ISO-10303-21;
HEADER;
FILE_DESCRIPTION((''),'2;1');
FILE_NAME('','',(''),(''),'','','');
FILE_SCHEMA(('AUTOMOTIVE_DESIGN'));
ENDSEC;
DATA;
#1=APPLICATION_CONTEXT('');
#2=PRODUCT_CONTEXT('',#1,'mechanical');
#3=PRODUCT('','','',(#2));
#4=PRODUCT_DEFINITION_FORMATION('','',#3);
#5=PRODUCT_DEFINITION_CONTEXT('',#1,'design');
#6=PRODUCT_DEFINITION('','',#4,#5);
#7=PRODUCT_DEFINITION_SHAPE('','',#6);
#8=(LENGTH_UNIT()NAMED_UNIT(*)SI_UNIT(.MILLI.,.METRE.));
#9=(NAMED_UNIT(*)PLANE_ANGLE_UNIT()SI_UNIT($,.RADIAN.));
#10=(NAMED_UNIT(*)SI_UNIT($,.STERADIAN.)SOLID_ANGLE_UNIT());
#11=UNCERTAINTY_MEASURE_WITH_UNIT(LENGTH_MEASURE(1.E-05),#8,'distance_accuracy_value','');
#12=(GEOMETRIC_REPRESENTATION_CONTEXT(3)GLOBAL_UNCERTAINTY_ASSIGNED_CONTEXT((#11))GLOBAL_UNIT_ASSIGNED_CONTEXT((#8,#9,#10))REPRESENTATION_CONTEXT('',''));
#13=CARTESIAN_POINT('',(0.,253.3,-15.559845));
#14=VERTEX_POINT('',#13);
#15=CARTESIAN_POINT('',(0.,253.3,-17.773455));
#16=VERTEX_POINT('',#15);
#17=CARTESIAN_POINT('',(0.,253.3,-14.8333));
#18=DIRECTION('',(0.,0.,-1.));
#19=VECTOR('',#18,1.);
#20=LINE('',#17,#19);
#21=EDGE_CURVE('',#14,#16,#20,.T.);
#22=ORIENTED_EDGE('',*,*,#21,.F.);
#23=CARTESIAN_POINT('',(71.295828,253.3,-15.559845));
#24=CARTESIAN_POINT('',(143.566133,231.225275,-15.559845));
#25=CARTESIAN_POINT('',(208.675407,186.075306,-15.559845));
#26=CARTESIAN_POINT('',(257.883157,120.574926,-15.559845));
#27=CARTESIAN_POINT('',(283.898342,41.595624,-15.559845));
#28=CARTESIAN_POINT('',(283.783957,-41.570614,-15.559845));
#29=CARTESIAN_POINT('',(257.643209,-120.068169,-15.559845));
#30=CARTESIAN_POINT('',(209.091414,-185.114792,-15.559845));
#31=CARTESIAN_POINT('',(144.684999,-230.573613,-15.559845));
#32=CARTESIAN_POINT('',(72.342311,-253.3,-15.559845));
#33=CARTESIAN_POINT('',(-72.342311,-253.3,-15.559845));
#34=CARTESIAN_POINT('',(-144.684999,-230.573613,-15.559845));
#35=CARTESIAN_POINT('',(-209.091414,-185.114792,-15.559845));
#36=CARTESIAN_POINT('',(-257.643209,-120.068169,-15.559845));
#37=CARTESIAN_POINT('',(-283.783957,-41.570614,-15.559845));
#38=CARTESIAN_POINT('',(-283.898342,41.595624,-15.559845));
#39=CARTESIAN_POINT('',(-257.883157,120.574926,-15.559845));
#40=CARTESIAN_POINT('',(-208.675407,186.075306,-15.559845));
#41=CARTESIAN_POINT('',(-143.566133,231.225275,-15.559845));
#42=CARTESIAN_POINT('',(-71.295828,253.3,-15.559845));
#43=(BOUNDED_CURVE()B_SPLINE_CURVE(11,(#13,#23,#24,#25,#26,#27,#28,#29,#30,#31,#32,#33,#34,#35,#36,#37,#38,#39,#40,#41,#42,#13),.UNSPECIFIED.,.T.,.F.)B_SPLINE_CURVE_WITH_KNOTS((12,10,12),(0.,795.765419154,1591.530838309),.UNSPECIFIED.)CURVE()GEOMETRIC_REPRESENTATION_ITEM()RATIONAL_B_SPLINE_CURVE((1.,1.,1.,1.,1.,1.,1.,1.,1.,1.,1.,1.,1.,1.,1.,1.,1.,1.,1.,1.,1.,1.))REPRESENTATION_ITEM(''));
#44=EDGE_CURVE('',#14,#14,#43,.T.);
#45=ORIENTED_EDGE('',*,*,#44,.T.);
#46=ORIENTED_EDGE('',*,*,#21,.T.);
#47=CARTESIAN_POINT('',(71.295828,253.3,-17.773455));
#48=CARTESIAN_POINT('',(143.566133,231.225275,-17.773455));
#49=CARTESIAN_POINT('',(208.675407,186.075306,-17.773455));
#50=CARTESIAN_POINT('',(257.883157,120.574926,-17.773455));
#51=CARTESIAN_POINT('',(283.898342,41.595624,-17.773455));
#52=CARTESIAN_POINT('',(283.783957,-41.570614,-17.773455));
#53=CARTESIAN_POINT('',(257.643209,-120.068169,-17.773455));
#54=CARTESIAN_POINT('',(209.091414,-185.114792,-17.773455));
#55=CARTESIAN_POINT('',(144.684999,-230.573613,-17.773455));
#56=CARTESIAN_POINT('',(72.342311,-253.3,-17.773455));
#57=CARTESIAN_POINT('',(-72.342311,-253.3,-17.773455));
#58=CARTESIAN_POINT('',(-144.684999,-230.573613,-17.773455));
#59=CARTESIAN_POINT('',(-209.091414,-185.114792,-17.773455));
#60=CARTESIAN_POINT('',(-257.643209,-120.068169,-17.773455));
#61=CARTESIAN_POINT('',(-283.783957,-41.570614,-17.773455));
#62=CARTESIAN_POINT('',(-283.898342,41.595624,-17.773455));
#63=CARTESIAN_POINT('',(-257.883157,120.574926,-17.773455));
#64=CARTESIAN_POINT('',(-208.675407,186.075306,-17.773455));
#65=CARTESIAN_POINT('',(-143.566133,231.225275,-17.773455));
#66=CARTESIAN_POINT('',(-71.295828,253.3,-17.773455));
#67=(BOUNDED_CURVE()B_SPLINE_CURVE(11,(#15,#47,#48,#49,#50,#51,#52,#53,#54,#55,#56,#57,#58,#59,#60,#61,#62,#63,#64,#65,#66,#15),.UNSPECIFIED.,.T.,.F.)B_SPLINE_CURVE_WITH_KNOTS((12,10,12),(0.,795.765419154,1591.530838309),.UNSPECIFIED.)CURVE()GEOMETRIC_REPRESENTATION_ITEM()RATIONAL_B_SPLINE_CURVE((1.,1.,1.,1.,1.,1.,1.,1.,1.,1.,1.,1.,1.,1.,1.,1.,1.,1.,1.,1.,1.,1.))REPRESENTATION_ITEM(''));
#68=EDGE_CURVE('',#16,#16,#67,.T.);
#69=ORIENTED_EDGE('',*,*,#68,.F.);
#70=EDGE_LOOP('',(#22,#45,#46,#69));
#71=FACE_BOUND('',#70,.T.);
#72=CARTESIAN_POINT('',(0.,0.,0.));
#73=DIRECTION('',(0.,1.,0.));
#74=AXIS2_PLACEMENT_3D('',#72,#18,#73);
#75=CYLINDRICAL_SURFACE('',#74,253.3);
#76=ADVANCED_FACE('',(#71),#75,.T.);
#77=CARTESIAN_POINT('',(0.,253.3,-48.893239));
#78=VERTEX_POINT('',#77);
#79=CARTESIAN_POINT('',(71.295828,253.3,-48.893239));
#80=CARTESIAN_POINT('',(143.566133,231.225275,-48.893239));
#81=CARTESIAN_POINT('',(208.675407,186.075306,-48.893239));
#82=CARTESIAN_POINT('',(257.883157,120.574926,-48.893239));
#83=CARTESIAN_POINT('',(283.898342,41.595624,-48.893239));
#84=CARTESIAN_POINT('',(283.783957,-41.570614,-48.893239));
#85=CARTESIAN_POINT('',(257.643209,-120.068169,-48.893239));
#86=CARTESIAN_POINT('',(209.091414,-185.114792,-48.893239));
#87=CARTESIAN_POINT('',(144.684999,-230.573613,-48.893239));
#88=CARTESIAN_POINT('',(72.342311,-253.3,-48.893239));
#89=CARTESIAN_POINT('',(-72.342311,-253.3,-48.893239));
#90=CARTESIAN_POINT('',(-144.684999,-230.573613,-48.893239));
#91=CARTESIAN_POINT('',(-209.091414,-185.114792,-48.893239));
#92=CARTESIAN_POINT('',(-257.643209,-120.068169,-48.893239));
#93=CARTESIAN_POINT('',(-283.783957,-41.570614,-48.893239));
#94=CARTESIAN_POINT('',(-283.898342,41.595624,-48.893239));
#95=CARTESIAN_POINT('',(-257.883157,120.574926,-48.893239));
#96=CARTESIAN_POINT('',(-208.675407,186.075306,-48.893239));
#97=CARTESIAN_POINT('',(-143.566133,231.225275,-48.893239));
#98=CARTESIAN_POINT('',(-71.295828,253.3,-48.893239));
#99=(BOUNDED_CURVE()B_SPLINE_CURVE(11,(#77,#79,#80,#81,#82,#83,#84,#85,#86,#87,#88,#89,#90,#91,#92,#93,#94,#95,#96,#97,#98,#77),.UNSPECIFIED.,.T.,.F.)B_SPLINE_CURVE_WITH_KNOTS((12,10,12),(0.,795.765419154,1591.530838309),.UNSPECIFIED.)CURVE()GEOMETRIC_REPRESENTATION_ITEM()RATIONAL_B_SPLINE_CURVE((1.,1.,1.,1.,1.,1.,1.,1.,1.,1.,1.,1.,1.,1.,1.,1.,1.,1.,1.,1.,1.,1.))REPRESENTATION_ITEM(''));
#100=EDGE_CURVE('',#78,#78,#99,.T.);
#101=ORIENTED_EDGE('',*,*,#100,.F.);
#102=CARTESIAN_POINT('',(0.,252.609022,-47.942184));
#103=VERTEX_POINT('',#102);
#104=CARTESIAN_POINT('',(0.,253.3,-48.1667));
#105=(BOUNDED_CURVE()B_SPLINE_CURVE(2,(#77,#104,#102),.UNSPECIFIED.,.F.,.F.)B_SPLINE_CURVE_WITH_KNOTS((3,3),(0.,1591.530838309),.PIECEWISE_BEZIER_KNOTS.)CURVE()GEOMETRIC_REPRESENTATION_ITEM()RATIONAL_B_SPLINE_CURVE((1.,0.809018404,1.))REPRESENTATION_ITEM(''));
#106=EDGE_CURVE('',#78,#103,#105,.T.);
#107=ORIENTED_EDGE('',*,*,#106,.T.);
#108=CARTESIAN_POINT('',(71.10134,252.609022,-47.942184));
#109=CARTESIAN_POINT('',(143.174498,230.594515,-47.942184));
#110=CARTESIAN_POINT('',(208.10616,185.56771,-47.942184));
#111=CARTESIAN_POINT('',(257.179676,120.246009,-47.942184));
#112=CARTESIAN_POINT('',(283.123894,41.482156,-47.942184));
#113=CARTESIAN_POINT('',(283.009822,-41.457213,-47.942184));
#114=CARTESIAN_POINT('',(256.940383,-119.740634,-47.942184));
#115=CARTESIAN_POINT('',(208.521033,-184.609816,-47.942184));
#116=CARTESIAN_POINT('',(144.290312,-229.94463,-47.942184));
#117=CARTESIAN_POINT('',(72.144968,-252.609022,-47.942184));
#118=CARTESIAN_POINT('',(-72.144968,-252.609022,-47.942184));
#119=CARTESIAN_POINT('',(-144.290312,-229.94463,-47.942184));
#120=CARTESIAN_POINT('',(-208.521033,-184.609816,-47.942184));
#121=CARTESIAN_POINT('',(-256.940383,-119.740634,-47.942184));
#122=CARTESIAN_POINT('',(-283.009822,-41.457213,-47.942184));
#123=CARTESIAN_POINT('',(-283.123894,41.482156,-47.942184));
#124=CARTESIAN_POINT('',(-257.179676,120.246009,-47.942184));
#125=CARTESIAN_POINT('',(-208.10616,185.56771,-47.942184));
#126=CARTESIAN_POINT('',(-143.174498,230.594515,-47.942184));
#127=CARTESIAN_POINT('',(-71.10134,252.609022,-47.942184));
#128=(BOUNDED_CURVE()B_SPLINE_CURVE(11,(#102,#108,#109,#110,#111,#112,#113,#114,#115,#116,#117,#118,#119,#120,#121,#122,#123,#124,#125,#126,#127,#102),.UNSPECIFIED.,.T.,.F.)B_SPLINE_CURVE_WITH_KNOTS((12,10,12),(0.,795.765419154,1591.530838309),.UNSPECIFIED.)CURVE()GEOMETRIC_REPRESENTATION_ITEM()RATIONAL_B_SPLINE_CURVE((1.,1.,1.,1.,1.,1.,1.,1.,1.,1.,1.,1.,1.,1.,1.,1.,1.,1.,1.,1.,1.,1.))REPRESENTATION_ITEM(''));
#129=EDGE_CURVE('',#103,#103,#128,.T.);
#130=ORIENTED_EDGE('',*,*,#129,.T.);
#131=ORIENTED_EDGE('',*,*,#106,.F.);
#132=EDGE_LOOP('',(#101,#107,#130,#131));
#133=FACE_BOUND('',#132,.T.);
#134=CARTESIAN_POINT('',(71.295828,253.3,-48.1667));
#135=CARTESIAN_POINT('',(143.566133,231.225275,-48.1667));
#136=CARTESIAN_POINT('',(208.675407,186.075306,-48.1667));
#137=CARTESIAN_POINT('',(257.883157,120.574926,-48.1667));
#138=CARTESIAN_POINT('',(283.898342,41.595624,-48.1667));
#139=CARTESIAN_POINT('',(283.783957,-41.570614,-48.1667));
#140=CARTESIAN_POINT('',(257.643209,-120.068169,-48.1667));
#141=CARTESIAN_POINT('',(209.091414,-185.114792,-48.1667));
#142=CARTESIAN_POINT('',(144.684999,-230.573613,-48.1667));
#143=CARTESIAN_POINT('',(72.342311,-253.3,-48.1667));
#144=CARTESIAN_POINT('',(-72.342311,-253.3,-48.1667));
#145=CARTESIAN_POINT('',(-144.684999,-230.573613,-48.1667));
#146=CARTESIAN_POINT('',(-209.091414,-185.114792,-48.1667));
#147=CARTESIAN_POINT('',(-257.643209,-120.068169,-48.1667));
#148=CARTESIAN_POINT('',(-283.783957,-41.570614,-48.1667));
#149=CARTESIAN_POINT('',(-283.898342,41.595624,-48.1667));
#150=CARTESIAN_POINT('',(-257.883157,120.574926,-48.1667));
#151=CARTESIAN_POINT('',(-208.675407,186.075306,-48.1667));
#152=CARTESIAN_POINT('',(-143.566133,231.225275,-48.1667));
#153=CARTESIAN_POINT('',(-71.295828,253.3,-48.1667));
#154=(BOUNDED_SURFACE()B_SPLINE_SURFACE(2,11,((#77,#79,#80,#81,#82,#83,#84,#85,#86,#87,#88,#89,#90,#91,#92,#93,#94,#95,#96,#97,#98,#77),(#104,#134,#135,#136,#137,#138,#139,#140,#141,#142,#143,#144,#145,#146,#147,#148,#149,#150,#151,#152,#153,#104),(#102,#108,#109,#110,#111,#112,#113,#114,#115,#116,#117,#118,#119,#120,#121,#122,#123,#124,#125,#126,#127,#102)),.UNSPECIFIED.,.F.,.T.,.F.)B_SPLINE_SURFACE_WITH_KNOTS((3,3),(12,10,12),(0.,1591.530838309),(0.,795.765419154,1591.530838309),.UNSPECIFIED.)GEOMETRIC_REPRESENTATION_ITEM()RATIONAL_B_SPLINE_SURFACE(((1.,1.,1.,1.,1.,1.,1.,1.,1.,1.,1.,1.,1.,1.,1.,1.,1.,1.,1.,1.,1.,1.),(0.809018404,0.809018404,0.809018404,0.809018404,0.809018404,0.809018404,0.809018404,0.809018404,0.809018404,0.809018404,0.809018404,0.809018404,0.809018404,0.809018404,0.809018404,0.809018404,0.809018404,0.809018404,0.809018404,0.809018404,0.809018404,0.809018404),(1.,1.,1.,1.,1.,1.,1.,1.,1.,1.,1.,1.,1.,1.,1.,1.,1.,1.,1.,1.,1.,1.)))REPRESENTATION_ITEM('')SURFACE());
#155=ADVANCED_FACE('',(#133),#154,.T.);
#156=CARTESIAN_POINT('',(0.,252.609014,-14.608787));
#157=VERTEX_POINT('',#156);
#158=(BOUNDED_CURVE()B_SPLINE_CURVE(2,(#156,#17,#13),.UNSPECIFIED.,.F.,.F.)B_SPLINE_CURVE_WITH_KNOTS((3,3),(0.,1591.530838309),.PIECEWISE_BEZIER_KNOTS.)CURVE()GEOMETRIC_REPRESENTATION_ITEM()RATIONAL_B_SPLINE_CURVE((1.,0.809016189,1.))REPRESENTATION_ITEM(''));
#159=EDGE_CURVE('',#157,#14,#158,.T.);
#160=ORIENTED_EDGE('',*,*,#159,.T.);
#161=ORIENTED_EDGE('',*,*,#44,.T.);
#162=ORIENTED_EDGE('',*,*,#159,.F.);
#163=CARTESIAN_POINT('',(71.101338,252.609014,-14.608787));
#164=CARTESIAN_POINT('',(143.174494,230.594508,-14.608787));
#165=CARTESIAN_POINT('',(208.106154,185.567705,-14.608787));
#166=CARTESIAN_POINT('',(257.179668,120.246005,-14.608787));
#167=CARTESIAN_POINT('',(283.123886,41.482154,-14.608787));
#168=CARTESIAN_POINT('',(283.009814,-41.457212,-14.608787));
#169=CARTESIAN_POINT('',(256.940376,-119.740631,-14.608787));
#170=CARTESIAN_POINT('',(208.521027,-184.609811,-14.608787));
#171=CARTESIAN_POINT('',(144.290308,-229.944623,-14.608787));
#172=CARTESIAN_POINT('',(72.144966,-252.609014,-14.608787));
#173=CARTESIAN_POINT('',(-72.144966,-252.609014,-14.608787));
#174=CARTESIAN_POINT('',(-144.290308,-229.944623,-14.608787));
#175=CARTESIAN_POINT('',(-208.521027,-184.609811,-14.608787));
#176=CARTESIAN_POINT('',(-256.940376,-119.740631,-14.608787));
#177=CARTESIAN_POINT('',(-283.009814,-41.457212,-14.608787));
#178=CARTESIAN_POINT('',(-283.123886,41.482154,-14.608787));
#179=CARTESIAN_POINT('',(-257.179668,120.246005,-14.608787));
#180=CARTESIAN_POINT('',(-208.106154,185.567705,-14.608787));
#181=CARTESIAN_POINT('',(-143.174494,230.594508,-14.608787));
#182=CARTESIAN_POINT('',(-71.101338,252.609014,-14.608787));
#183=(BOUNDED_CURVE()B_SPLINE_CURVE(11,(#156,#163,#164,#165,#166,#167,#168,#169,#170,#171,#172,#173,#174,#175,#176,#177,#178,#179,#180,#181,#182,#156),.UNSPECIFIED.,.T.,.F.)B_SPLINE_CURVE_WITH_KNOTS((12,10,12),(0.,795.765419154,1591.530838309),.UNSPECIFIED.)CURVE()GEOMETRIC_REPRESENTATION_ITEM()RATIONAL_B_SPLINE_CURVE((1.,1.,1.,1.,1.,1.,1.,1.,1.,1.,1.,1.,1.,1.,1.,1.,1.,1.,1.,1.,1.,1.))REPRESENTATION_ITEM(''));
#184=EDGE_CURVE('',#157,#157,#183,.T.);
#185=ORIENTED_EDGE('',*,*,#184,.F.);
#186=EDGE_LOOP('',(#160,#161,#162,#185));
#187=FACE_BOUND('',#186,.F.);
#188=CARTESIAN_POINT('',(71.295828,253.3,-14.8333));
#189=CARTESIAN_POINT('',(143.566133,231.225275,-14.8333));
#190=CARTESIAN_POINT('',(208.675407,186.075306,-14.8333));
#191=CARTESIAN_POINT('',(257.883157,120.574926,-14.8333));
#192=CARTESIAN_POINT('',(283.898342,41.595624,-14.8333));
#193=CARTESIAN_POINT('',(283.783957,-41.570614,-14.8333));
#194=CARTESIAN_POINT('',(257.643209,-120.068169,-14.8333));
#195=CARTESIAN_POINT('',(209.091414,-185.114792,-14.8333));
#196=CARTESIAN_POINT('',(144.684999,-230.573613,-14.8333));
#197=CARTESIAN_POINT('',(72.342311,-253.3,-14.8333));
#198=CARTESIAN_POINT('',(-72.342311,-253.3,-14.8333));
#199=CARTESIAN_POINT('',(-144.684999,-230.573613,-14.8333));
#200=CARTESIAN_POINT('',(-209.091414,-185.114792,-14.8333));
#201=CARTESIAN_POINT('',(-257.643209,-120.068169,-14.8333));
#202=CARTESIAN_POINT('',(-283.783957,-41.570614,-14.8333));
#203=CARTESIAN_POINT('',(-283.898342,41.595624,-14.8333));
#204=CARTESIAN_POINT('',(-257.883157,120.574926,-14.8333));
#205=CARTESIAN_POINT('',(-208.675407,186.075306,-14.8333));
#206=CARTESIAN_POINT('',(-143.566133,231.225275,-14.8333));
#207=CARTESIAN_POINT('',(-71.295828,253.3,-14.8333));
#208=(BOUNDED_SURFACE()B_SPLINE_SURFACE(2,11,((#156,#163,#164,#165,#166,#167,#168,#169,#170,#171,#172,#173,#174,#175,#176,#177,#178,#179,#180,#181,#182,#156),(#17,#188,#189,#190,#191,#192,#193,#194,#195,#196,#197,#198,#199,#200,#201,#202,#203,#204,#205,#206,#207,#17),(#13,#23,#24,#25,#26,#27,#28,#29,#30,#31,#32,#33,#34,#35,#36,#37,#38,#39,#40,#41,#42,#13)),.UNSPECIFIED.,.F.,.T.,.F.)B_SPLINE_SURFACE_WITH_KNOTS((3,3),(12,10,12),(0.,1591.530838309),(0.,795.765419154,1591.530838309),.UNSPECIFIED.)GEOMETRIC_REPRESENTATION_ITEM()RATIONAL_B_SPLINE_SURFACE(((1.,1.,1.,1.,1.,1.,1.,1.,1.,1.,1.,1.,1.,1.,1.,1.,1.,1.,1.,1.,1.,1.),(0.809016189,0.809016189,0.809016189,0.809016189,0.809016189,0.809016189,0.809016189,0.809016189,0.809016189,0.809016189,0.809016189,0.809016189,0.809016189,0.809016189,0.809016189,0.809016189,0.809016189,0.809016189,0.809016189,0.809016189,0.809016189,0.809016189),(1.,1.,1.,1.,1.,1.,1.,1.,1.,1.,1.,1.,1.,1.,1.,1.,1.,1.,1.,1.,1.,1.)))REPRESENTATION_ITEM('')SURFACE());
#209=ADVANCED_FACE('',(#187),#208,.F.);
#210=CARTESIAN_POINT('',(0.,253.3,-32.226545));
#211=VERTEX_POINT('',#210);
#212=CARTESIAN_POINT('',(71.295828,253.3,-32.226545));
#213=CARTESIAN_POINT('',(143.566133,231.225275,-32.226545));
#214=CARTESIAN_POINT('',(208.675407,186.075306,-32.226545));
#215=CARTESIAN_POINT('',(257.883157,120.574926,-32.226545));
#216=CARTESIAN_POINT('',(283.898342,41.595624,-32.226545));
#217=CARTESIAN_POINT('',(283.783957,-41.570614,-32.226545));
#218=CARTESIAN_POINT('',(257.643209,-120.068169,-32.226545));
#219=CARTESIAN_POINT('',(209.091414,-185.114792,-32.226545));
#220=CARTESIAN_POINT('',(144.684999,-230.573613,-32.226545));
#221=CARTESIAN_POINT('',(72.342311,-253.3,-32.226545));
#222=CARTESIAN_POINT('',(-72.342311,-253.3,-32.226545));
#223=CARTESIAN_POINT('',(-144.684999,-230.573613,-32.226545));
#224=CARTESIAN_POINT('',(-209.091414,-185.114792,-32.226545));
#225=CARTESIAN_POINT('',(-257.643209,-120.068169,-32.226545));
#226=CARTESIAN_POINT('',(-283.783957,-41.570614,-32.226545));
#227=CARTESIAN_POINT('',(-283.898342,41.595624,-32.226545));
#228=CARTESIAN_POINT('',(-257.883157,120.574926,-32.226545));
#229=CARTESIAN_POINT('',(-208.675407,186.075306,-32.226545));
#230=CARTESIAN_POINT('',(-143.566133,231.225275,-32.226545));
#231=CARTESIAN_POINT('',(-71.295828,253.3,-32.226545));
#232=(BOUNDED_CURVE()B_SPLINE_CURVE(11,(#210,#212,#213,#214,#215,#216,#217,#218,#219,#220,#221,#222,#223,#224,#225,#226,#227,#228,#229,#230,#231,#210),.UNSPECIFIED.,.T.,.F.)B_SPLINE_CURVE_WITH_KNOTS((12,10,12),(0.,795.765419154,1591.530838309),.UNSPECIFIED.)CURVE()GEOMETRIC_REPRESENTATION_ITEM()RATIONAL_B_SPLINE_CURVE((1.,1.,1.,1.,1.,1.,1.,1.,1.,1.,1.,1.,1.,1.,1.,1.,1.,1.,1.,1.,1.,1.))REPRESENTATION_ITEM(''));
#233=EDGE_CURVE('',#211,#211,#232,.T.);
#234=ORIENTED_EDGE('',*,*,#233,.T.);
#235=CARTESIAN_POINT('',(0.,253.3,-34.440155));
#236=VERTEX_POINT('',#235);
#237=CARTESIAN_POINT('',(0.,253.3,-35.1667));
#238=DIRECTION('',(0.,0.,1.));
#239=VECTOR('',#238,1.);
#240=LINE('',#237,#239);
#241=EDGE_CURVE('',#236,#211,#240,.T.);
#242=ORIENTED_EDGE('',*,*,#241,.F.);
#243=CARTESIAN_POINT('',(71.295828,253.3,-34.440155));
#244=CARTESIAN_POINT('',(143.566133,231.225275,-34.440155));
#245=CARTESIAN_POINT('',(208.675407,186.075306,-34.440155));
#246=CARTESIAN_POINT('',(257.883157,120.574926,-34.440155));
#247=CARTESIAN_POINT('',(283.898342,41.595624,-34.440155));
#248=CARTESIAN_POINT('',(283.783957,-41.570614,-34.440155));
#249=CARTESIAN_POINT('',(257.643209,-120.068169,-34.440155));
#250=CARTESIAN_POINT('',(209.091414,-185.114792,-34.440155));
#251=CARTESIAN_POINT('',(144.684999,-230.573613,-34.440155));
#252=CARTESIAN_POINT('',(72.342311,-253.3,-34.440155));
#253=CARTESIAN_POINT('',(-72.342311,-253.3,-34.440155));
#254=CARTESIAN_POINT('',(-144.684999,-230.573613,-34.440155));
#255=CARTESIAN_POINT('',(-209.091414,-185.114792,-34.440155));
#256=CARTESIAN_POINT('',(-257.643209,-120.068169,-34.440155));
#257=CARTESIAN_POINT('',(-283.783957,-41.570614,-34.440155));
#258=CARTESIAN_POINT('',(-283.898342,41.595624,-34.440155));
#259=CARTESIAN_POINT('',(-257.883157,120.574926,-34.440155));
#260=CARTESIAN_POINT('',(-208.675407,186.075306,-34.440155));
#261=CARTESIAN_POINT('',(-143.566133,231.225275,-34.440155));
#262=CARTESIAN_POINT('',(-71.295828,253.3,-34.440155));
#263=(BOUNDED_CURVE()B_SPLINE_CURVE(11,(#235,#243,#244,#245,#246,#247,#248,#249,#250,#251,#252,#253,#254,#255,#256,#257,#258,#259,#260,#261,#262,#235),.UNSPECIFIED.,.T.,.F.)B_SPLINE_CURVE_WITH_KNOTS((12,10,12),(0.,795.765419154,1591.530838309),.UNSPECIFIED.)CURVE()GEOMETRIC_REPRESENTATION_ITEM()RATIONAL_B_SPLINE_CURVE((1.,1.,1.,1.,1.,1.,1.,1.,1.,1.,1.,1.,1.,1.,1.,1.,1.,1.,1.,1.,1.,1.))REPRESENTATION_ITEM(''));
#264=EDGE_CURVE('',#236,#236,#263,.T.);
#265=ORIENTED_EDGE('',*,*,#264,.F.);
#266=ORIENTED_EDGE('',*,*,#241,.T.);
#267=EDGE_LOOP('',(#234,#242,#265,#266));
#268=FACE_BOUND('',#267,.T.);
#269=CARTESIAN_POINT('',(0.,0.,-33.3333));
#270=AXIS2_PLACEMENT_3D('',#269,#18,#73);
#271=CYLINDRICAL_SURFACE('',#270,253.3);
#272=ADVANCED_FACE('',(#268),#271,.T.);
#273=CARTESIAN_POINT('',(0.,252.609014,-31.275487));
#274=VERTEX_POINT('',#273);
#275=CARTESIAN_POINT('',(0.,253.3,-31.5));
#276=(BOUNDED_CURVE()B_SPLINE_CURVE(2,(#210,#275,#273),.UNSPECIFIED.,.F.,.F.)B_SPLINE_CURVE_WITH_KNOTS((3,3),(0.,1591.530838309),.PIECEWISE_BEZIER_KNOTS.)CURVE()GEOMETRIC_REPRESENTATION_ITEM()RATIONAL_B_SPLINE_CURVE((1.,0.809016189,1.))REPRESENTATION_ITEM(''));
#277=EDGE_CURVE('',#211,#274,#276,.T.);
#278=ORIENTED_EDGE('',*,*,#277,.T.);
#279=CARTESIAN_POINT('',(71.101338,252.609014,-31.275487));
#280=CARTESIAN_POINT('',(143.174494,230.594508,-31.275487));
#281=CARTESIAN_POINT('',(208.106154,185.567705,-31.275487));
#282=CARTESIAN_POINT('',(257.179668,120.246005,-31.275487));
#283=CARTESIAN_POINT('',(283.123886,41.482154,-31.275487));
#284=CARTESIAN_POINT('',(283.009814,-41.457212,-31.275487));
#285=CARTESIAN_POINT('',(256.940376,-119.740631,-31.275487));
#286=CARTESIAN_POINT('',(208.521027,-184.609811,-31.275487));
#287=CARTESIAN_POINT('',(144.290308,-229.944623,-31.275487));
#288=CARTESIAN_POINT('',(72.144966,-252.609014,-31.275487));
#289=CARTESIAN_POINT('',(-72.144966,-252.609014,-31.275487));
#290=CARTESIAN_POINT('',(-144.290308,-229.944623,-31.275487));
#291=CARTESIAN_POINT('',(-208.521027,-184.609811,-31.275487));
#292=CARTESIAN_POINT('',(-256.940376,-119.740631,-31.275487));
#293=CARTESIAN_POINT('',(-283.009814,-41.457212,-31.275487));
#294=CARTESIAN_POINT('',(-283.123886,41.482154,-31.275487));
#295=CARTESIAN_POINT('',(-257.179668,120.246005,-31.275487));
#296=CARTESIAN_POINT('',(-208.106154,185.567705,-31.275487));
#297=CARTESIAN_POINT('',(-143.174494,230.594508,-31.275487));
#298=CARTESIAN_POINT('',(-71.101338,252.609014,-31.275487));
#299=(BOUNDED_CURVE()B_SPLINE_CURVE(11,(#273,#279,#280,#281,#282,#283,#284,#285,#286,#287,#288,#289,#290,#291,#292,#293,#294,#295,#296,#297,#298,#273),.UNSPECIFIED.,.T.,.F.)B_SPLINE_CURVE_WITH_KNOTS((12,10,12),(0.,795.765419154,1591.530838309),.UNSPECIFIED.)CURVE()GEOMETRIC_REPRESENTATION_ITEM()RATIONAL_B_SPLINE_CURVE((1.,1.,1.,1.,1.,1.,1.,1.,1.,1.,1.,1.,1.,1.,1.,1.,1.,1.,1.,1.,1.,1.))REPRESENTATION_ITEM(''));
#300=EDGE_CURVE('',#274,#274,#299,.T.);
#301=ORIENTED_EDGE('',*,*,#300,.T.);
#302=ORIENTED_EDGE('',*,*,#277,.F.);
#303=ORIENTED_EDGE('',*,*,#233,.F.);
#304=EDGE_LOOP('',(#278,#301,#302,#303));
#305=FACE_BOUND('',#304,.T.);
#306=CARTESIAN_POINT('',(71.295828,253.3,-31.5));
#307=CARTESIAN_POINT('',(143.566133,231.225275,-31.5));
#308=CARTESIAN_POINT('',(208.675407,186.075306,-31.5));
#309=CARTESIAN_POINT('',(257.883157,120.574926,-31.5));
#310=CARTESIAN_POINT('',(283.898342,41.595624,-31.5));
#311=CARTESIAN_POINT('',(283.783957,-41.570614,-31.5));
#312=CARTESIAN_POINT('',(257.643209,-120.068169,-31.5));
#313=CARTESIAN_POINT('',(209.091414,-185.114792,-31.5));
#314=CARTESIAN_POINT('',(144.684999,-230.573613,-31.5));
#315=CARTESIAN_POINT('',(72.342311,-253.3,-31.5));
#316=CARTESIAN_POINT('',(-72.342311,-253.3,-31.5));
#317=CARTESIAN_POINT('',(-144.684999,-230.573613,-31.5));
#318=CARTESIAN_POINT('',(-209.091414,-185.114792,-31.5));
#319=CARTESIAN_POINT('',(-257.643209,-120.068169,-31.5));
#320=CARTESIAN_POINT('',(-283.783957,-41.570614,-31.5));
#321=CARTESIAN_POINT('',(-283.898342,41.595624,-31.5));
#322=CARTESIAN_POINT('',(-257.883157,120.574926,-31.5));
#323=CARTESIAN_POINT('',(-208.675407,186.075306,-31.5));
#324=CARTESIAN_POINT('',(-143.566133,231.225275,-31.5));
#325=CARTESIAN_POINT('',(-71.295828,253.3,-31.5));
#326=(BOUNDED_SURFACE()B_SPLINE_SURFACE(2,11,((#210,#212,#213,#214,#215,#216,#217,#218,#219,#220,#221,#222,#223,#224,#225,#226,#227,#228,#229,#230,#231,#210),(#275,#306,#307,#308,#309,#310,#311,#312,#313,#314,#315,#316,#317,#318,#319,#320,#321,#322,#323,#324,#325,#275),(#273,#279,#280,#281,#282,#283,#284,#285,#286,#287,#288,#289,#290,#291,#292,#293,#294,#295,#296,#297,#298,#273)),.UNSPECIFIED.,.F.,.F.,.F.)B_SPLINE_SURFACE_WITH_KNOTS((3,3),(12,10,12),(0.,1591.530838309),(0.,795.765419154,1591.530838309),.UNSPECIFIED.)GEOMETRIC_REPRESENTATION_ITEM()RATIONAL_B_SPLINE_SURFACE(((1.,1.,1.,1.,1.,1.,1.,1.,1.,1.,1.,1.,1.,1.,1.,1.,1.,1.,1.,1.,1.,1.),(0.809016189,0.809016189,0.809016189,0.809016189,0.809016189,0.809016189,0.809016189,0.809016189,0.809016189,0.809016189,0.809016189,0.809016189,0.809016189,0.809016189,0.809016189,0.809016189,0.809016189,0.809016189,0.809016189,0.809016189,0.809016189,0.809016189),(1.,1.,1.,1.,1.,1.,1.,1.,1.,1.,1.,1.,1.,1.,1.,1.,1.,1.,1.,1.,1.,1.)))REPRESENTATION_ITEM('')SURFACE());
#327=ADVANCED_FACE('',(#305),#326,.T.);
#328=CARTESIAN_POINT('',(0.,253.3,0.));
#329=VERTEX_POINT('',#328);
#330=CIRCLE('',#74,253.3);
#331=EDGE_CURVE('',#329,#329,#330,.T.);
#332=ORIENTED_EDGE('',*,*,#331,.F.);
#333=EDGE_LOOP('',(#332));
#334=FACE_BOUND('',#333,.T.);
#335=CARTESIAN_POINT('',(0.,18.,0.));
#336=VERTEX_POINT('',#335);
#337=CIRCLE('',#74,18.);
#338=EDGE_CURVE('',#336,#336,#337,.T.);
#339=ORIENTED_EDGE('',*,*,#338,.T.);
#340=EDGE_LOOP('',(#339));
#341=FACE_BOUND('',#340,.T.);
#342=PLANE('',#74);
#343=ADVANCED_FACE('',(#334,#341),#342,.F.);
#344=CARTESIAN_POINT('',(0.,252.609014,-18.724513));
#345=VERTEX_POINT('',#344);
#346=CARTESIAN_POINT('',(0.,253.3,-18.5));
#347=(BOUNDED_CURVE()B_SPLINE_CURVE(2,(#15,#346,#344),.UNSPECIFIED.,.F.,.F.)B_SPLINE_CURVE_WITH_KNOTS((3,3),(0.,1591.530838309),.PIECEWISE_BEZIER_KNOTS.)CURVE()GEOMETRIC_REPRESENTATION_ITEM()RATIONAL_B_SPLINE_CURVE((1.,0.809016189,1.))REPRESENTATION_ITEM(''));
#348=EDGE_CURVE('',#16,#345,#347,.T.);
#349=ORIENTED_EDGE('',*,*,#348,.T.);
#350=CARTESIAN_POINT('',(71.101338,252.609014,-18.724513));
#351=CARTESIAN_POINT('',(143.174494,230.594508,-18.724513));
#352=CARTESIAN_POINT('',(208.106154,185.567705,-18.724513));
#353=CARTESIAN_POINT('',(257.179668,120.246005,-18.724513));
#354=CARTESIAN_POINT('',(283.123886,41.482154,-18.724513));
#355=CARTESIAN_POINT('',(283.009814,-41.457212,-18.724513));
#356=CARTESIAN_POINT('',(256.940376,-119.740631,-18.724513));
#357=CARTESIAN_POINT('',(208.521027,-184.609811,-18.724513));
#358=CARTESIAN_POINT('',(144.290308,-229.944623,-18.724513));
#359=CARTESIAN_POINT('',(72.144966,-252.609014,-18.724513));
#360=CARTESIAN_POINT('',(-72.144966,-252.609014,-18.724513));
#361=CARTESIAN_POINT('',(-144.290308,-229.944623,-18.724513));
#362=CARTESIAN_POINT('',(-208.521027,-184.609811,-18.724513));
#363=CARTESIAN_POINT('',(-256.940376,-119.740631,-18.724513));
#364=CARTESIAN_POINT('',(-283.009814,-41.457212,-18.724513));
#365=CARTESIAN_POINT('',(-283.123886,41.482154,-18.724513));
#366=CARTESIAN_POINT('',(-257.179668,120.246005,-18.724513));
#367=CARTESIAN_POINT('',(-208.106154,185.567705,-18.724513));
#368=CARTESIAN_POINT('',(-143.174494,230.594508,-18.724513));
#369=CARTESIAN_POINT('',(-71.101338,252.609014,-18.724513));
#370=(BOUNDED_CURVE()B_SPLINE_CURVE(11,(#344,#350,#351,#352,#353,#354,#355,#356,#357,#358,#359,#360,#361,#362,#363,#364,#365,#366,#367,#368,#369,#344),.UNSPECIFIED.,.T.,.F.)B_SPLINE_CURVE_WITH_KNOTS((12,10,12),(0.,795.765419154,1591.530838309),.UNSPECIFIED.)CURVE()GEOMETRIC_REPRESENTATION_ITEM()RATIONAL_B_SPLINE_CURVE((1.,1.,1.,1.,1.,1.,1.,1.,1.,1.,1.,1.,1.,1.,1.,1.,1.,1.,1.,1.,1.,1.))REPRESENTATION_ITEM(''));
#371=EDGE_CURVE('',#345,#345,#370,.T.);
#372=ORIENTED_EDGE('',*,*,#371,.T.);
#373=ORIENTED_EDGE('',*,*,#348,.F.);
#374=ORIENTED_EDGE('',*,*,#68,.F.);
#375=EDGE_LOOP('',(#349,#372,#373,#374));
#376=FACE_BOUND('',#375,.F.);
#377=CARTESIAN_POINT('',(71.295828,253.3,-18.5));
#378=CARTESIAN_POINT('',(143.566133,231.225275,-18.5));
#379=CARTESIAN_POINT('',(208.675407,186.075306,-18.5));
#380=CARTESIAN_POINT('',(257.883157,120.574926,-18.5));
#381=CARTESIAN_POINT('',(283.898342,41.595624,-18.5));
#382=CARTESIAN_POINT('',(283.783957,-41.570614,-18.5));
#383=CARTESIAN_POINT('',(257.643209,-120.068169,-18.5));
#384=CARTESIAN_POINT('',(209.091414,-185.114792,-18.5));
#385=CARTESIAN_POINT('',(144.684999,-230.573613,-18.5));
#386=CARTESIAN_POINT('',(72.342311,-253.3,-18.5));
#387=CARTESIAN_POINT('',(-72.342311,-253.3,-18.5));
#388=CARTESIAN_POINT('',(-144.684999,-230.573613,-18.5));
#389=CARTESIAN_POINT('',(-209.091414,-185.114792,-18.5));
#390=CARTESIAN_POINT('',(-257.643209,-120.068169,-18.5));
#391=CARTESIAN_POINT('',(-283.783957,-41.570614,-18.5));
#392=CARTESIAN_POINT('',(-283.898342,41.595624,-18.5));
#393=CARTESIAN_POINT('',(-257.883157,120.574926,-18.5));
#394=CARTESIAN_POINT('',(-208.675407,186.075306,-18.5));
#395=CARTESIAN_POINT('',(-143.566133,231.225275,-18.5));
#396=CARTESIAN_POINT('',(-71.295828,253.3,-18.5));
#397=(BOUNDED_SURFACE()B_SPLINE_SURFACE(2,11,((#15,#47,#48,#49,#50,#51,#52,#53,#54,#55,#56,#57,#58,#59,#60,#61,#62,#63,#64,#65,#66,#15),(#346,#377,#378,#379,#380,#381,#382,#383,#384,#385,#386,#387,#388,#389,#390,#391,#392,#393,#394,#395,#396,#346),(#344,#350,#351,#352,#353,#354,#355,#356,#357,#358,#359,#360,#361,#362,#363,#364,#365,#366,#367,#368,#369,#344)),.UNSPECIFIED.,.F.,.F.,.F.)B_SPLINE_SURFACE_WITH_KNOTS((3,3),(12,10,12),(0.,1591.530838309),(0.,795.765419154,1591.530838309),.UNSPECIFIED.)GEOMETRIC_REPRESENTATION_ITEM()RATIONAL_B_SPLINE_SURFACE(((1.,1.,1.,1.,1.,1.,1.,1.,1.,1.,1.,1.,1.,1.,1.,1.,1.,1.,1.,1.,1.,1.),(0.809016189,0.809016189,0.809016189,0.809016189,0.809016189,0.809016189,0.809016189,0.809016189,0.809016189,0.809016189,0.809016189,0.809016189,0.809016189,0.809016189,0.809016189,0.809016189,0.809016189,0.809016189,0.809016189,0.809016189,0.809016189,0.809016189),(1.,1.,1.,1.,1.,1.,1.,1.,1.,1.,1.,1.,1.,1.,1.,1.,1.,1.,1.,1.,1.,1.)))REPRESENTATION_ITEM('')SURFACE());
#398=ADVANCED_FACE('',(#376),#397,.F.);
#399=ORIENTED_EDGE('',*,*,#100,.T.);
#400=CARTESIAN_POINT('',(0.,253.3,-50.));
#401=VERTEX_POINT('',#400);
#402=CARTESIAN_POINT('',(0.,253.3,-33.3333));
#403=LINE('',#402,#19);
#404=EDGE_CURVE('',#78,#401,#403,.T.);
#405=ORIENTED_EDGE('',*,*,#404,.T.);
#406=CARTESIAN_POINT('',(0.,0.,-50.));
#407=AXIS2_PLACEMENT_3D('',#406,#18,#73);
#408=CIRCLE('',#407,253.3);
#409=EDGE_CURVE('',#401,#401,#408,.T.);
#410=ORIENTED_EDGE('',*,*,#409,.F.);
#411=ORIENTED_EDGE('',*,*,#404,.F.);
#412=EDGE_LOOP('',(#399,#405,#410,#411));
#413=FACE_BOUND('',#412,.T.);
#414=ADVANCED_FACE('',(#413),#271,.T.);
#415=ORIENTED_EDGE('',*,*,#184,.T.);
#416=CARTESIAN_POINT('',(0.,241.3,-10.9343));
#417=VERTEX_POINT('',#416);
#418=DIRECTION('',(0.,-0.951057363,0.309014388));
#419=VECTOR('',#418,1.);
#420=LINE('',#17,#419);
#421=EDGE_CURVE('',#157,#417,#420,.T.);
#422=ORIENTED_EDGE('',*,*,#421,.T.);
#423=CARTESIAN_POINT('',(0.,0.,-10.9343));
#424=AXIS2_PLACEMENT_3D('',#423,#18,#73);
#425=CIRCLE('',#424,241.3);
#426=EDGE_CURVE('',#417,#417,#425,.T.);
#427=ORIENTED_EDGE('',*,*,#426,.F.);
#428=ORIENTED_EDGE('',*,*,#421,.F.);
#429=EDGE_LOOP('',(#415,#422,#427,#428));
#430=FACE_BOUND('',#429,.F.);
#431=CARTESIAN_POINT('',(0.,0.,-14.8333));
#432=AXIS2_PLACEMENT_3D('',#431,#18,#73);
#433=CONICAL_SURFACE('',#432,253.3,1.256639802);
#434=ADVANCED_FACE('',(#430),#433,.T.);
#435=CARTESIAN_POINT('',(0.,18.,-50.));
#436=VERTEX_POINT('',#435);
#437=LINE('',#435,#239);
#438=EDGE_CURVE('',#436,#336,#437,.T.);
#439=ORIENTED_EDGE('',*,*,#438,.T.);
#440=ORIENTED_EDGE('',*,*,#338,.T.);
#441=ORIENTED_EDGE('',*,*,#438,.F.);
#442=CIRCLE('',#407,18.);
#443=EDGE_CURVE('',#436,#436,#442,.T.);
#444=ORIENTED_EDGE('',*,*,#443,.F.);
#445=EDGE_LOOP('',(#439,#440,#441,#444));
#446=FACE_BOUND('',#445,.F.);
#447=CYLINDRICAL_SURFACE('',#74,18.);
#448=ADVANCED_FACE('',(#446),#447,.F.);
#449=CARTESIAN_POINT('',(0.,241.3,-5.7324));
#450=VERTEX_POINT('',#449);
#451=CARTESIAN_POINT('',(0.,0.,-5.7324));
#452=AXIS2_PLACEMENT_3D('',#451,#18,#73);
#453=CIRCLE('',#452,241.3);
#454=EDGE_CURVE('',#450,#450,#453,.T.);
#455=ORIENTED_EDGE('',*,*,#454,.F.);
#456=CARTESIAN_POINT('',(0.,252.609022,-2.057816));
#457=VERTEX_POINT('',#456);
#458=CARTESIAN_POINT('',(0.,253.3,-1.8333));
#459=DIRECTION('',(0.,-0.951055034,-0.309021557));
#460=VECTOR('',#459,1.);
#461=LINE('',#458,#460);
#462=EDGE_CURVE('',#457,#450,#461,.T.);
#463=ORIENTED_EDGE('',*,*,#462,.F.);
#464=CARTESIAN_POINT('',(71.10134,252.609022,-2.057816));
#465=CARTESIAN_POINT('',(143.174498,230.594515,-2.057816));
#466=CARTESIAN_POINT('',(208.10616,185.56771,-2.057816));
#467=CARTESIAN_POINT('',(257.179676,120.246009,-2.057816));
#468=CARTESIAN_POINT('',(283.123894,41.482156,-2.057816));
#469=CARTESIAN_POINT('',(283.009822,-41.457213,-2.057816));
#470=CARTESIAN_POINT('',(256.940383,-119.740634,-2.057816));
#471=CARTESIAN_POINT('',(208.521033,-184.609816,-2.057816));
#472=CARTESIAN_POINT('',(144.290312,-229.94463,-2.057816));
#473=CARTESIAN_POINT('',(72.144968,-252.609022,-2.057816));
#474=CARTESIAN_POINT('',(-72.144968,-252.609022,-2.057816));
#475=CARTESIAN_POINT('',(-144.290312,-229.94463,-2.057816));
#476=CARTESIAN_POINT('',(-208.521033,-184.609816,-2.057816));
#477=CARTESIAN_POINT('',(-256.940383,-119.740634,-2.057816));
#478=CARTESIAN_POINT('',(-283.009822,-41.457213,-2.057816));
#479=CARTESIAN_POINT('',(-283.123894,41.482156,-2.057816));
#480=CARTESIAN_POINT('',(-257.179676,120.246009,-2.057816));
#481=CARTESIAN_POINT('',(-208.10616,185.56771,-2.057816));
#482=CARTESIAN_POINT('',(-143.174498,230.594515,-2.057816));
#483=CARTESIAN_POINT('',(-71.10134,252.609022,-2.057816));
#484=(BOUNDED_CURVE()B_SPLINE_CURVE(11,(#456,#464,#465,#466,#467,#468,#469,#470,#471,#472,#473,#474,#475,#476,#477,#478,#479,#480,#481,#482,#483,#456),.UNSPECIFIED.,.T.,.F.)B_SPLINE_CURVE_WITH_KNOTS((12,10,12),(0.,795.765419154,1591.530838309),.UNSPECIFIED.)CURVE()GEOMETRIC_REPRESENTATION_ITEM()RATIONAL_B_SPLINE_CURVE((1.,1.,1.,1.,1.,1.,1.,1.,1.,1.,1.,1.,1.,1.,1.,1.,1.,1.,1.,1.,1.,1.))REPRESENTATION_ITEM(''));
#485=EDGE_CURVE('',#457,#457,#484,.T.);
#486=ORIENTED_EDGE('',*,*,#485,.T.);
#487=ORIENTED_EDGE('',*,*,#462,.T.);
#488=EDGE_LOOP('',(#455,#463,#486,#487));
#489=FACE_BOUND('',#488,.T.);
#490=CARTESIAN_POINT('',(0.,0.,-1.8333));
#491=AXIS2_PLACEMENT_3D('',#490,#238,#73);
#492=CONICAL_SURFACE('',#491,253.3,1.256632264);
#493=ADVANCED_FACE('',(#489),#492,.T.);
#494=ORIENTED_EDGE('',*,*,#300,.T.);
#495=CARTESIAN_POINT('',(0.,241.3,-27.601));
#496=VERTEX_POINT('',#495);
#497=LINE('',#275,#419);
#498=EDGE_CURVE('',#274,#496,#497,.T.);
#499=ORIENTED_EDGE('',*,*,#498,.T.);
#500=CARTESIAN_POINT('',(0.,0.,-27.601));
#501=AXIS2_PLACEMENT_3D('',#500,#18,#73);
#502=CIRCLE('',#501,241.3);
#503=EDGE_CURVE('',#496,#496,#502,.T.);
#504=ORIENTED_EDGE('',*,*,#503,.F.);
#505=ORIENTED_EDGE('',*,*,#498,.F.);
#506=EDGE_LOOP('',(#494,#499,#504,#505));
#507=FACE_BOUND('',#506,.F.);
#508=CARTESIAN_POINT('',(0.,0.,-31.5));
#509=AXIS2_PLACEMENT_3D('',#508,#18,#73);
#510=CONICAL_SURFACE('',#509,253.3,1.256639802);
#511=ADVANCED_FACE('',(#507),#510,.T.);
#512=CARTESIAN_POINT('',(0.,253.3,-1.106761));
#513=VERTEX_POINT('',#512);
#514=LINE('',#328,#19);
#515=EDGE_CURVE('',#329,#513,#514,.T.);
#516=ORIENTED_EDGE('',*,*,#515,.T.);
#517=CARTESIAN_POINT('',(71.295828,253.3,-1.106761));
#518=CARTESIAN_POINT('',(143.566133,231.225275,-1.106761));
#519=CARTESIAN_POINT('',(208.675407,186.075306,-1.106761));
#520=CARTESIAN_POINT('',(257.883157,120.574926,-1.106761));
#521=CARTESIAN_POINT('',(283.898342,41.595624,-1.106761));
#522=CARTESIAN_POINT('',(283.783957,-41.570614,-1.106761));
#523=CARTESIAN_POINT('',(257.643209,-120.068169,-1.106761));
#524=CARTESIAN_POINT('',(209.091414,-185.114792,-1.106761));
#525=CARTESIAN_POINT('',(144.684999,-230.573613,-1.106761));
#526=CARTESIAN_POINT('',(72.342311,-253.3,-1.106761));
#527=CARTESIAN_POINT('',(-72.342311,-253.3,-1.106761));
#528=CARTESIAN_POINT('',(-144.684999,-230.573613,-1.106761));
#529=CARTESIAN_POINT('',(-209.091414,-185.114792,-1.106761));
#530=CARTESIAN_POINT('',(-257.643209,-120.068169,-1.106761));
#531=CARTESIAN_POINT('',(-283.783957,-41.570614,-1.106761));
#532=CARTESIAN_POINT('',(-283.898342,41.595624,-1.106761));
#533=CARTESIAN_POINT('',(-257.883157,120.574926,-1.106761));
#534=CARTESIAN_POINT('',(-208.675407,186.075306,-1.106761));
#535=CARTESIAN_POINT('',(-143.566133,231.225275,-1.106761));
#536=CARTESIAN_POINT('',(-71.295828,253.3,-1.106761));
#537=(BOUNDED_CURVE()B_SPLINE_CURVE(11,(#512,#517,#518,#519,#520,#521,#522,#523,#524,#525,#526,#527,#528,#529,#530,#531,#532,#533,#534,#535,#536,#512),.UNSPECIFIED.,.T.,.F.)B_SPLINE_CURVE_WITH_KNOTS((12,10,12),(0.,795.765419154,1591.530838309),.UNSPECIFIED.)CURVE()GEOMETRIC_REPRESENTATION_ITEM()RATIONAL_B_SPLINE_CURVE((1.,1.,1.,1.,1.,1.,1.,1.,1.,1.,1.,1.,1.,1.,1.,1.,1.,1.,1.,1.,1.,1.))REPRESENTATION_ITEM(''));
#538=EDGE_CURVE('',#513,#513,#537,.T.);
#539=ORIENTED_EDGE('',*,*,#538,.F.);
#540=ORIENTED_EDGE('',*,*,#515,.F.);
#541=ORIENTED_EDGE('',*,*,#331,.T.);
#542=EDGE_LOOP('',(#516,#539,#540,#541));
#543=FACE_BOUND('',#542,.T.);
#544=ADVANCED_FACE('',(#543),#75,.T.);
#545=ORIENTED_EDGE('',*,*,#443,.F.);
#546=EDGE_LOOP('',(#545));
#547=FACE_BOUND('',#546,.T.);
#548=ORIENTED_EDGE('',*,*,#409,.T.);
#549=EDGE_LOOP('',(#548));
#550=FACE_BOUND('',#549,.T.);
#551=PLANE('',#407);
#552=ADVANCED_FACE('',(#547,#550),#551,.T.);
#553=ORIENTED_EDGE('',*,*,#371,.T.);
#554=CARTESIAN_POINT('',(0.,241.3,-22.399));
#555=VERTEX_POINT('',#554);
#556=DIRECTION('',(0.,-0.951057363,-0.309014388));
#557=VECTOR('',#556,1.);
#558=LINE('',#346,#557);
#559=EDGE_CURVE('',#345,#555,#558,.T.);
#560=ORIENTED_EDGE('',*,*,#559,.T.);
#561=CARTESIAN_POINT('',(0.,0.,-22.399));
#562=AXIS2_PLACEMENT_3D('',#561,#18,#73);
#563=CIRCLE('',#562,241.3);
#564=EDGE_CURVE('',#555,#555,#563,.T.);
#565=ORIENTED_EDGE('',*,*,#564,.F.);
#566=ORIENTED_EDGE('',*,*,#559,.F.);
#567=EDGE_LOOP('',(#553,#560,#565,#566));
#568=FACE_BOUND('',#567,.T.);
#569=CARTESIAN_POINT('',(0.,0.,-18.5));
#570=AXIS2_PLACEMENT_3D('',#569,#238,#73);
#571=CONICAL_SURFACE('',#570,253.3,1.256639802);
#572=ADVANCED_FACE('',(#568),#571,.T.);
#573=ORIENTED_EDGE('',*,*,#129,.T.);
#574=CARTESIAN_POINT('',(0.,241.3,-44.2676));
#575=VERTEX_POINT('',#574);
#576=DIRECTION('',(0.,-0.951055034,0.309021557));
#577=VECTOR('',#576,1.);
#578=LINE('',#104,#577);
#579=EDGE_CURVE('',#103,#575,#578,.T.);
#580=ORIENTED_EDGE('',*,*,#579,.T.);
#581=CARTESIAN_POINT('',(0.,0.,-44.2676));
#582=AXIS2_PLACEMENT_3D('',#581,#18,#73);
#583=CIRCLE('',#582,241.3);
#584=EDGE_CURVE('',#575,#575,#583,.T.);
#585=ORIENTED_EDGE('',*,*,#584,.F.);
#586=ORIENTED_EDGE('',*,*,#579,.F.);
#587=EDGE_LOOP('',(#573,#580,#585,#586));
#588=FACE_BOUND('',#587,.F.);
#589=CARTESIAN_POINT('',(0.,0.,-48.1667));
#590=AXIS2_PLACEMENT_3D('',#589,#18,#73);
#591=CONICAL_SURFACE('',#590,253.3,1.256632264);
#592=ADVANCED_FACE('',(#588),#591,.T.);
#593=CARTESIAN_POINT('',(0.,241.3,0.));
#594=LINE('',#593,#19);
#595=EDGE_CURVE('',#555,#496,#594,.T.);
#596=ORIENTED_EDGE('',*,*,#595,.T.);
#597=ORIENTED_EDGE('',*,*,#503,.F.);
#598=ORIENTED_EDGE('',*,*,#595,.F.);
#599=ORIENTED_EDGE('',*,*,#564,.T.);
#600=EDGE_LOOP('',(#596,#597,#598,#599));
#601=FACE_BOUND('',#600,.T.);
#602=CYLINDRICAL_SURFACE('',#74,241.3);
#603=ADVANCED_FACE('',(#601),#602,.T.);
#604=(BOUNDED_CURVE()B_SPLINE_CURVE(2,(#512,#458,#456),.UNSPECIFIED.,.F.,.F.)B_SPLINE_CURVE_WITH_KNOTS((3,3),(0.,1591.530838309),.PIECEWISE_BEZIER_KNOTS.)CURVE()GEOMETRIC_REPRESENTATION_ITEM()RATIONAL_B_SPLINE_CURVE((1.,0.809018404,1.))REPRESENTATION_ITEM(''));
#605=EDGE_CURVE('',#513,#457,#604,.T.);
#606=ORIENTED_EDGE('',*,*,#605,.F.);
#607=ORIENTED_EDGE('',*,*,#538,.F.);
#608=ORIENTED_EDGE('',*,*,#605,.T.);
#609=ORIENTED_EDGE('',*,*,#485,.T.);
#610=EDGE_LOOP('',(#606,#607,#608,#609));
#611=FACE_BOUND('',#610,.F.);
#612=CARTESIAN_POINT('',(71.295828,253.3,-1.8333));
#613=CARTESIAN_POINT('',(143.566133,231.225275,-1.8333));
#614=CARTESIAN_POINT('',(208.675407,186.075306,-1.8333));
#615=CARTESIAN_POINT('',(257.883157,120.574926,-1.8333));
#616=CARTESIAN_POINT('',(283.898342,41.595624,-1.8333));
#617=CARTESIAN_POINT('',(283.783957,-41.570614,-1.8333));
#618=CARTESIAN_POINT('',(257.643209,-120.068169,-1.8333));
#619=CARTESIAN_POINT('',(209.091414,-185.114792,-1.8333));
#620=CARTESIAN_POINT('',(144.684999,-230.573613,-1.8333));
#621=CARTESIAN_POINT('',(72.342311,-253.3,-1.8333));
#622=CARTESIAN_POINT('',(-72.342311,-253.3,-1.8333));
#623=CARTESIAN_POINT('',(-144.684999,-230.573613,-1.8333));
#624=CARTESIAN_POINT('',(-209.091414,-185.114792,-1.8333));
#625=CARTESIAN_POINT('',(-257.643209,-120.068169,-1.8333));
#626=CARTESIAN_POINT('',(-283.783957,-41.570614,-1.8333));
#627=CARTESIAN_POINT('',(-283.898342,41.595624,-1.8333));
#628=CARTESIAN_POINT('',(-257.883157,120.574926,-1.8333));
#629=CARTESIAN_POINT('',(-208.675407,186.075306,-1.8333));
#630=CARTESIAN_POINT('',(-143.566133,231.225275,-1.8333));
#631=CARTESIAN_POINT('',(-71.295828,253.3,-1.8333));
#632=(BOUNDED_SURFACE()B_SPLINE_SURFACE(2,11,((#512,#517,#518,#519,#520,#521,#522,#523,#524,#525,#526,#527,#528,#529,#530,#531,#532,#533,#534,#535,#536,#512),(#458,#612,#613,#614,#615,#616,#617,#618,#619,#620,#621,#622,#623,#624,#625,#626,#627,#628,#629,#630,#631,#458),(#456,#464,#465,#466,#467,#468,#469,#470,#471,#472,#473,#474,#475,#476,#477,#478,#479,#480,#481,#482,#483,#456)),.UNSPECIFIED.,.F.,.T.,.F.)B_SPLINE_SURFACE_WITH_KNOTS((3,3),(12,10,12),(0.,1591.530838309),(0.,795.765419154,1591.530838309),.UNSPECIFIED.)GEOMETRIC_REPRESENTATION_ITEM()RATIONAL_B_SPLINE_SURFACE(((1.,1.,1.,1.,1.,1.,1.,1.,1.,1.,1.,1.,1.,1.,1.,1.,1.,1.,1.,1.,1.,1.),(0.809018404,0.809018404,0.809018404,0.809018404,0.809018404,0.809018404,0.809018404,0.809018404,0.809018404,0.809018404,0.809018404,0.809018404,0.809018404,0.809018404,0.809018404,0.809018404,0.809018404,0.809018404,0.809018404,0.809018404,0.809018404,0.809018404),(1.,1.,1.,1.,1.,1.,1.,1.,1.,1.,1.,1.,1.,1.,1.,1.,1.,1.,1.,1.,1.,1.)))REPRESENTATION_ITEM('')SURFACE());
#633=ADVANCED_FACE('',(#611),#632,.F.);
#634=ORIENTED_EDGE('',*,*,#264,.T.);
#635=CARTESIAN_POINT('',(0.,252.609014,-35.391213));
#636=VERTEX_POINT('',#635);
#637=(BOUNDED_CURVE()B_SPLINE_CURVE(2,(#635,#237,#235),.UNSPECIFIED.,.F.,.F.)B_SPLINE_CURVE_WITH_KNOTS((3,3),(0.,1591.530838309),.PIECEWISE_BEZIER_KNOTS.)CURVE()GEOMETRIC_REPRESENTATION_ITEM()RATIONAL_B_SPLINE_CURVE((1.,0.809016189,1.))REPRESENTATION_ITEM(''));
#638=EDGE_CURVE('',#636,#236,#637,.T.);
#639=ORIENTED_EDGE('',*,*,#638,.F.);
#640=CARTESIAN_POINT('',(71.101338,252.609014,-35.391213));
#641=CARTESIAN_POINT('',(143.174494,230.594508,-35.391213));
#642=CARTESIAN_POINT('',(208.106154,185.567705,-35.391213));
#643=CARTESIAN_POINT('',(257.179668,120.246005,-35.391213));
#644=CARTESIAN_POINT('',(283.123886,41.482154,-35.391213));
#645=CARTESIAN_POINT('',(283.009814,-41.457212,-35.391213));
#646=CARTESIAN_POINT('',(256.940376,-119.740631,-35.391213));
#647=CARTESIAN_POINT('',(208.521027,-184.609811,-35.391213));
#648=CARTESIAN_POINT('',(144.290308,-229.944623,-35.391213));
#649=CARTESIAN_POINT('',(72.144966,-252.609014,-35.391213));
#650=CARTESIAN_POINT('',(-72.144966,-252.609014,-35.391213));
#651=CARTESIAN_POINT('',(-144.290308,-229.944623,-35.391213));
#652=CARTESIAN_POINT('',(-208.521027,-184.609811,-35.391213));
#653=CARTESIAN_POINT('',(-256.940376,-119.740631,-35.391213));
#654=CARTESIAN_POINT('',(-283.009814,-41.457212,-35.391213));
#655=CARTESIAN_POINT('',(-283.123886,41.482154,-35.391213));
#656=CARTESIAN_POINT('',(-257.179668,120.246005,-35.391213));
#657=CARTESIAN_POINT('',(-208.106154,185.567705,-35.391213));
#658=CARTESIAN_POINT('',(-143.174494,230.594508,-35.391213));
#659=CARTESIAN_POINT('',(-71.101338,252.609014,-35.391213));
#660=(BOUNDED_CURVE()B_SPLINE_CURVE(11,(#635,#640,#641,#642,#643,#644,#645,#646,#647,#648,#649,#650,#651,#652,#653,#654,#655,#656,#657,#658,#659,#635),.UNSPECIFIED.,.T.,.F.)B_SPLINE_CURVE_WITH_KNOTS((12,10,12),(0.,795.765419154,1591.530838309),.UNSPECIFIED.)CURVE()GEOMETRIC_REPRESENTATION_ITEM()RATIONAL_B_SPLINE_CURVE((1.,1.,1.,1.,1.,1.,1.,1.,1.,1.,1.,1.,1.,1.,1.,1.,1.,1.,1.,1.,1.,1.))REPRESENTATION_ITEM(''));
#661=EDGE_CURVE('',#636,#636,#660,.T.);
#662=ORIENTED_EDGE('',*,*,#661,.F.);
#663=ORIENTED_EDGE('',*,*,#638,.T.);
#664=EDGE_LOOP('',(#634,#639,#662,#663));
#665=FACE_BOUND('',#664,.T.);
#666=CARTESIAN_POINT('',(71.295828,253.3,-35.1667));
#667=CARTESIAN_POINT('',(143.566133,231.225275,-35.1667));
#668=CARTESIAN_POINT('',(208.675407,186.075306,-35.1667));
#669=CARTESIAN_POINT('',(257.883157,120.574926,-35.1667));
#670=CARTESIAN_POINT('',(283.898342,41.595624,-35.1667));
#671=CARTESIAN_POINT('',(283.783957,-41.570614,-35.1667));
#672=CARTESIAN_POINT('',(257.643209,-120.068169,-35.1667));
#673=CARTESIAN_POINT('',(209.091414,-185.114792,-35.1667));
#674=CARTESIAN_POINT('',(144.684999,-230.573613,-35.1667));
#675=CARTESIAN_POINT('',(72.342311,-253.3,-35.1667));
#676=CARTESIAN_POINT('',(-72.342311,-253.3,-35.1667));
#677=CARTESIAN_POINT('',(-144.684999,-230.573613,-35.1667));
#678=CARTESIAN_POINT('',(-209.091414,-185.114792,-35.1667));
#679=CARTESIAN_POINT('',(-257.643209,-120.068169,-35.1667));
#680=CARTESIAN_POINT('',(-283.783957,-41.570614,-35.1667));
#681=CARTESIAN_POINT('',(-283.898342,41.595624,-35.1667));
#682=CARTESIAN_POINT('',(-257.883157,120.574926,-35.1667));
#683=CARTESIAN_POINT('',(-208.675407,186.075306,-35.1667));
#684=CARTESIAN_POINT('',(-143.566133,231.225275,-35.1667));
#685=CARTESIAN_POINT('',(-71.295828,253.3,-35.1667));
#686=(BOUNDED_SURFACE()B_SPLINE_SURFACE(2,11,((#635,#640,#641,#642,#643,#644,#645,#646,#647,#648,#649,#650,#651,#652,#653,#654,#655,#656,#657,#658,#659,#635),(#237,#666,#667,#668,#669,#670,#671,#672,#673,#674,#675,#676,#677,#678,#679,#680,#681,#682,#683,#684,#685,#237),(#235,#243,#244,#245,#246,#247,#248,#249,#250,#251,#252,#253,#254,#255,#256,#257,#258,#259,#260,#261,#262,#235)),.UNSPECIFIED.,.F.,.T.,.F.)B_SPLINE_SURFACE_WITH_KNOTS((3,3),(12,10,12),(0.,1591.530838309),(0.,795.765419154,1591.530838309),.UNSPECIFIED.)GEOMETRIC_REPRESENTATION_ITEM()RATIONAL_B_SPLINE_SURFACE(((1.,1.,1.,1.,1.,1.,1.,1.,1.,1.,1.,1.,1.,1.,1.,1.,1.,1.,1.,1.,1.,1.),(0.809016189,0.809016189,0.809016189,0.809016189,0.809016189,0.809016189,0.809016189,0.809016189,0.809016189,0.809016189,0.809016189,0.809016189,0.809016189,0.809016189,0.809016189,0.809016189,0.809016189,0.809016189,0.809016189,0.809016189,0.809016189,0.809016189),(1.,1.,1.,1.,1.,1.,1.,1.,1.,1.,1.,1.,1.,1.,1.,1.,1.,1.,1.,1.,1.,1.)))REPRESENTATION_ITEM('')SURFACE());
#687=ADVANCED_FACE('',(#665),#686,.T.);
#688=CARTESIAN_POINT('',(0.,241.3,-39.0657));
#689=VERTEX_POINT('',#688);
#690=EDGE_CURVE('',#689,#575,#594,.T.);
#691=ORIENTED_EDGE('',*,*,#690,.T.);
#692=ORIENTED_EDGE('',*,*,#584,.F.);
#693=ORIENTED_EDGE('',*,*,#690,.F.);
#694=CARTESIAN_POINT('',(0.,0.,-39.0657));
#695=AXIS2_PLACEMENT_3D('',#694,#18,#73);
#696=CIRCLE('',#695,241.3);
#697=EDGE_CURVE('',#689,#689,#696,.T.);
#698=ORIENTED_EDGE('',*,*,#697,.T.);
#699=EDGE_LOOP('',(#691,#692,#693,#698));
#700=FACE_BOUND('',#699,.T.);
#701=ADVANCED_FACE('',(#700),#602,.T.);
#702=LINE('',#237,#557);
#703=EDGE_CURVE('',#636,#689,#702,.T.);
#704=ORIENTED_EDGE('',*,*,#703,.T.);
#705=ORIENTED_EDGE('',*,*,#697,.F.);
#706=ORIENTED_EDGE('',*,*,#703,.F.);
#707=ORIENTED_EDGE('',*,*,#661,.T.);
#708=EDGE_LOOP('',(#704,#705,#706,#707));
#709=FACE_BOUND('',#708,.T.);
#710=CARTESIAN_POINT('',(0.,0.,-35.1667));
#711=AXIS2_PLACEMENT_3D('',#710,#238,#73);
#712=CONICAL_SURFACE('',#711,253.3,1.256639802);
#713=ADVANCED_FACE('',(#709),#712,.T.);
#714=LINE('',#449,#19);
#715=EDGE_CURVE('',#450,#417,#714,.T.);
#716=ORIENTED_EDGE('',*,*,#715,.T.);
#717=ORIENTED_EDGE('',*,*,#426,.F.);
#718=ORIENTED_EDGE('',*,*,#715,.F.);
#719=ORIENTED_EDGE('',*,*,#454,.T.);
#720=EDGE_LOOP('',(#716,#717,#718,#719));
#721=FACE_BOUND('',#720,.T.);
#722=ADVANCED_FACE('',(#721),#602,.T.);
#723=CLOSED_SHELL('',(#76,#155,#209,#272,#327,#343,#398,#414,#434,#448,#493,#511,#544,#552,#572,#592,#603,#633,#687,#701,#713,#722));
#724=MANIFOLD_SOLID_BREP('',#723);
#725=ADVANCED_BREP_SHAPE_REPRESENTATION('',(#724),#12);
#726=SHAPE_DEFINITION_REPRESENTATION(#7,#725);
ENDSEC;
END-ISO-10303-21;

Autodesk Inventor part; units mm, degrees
ref_plane "YZ Plane" through (0, 0, 0) normal (1, 0, 0) x (0, 1, 0)
ref_plane "XZ Plane" through (0, 0, 0) normal (0, 1, 0) x (-1, 0, 0)
ref_plane "XY Plane" through (0, 0, 0) normal (0, 0, 1) x (1, 0, 0)
sketch "Náčrt2" plane through (0, 0, 0) normal (1, 0, 0) x (0, 1, 0)
  line L0 (0, 0) -> (0, -50)
  line L1 (0, 0) -> (250, 0)
  line L2 (250, 0) -> (253.3, 0)
  line L3 (253.3, -50) -> (0, -50)
  line L4 (253.3, 0) -> (253.3, -16.6667)
  line L5 (253.3, -16.6667) -> (253.3, -33.3333)
  line L6 (253.3, -33.3333) -> (253.3, -50)
  line L7 (253.3, -16.6667) -> (0, -16.6667)
  line L8 (253.3, -33.3333) -> (0, -33.3333)
  line L9 (250, 0) -> (241.3, 0)
  line L10 (18, 0) -> (18, -50)
  line L11 (250, 0) -> (250, -50) construction
  line L12 (241.3, 0) -> (241.3, -50)
  line L13 (253.3, -8.3333) -> (241.3, -8.3333)
  line L14 (253.3, -8.3333) -> (253.3, -14.8333) construction
  line L15 (253.3, -14.8333) -> (241.3, -10.9343)
  line L16 (253.3, -1.8333) -> (241.3, -5.7324)
  line L17 (253.3, -18.5) -> (241.3, -22.399)
  line L18 (253.3, -31.5) -> (241.3, -27.601)
  line L19 (253.3, -48.1667) -> (241.3, -44.2676)
  line L20 (253.3, -35.1667) -> (241.3, -39.0657)
  point P0 (241.3, -44.2676)
  dimension "d2" = 50
  dimension "d3" = 250
  dimension "d4" = 3.3
  dimension "d5" = 50
  dimension "d7" = 16.6667
  dimension "d8" = 33.3333
  dimension "d10" = 18
  dimension "d16" = 8.7
  dimension "d19" = 6.5
  dimension "d20" = 18
revolve "Rotace1" add sketch "Náčrt2" angle 360 about axis through (0, 0, 0) along (0, 0, -1) contours L1 L12 L7 L10 | L7 L12 L8 L10 | L1 L2 L4 L16 L12 | L8 L12 L3 L10 | L12 L15 L4 L7 | L7 L5 L17 L12 | L12 L18 L5 L8 | L8 L6 L20 L12 | L12 L19 L6 L3
fillet "Zaoblení1" radius 1 6 edges at (0, -253.3, -1.8333) (0, -253.3, -14.8333) (0, -253.3, -18.5) (0, -253.3, -35.1667) (0, -253.3, -31.5) (0, -253.3, -48.1667)
properties part number "S3-SPS-REMENICE-1"
